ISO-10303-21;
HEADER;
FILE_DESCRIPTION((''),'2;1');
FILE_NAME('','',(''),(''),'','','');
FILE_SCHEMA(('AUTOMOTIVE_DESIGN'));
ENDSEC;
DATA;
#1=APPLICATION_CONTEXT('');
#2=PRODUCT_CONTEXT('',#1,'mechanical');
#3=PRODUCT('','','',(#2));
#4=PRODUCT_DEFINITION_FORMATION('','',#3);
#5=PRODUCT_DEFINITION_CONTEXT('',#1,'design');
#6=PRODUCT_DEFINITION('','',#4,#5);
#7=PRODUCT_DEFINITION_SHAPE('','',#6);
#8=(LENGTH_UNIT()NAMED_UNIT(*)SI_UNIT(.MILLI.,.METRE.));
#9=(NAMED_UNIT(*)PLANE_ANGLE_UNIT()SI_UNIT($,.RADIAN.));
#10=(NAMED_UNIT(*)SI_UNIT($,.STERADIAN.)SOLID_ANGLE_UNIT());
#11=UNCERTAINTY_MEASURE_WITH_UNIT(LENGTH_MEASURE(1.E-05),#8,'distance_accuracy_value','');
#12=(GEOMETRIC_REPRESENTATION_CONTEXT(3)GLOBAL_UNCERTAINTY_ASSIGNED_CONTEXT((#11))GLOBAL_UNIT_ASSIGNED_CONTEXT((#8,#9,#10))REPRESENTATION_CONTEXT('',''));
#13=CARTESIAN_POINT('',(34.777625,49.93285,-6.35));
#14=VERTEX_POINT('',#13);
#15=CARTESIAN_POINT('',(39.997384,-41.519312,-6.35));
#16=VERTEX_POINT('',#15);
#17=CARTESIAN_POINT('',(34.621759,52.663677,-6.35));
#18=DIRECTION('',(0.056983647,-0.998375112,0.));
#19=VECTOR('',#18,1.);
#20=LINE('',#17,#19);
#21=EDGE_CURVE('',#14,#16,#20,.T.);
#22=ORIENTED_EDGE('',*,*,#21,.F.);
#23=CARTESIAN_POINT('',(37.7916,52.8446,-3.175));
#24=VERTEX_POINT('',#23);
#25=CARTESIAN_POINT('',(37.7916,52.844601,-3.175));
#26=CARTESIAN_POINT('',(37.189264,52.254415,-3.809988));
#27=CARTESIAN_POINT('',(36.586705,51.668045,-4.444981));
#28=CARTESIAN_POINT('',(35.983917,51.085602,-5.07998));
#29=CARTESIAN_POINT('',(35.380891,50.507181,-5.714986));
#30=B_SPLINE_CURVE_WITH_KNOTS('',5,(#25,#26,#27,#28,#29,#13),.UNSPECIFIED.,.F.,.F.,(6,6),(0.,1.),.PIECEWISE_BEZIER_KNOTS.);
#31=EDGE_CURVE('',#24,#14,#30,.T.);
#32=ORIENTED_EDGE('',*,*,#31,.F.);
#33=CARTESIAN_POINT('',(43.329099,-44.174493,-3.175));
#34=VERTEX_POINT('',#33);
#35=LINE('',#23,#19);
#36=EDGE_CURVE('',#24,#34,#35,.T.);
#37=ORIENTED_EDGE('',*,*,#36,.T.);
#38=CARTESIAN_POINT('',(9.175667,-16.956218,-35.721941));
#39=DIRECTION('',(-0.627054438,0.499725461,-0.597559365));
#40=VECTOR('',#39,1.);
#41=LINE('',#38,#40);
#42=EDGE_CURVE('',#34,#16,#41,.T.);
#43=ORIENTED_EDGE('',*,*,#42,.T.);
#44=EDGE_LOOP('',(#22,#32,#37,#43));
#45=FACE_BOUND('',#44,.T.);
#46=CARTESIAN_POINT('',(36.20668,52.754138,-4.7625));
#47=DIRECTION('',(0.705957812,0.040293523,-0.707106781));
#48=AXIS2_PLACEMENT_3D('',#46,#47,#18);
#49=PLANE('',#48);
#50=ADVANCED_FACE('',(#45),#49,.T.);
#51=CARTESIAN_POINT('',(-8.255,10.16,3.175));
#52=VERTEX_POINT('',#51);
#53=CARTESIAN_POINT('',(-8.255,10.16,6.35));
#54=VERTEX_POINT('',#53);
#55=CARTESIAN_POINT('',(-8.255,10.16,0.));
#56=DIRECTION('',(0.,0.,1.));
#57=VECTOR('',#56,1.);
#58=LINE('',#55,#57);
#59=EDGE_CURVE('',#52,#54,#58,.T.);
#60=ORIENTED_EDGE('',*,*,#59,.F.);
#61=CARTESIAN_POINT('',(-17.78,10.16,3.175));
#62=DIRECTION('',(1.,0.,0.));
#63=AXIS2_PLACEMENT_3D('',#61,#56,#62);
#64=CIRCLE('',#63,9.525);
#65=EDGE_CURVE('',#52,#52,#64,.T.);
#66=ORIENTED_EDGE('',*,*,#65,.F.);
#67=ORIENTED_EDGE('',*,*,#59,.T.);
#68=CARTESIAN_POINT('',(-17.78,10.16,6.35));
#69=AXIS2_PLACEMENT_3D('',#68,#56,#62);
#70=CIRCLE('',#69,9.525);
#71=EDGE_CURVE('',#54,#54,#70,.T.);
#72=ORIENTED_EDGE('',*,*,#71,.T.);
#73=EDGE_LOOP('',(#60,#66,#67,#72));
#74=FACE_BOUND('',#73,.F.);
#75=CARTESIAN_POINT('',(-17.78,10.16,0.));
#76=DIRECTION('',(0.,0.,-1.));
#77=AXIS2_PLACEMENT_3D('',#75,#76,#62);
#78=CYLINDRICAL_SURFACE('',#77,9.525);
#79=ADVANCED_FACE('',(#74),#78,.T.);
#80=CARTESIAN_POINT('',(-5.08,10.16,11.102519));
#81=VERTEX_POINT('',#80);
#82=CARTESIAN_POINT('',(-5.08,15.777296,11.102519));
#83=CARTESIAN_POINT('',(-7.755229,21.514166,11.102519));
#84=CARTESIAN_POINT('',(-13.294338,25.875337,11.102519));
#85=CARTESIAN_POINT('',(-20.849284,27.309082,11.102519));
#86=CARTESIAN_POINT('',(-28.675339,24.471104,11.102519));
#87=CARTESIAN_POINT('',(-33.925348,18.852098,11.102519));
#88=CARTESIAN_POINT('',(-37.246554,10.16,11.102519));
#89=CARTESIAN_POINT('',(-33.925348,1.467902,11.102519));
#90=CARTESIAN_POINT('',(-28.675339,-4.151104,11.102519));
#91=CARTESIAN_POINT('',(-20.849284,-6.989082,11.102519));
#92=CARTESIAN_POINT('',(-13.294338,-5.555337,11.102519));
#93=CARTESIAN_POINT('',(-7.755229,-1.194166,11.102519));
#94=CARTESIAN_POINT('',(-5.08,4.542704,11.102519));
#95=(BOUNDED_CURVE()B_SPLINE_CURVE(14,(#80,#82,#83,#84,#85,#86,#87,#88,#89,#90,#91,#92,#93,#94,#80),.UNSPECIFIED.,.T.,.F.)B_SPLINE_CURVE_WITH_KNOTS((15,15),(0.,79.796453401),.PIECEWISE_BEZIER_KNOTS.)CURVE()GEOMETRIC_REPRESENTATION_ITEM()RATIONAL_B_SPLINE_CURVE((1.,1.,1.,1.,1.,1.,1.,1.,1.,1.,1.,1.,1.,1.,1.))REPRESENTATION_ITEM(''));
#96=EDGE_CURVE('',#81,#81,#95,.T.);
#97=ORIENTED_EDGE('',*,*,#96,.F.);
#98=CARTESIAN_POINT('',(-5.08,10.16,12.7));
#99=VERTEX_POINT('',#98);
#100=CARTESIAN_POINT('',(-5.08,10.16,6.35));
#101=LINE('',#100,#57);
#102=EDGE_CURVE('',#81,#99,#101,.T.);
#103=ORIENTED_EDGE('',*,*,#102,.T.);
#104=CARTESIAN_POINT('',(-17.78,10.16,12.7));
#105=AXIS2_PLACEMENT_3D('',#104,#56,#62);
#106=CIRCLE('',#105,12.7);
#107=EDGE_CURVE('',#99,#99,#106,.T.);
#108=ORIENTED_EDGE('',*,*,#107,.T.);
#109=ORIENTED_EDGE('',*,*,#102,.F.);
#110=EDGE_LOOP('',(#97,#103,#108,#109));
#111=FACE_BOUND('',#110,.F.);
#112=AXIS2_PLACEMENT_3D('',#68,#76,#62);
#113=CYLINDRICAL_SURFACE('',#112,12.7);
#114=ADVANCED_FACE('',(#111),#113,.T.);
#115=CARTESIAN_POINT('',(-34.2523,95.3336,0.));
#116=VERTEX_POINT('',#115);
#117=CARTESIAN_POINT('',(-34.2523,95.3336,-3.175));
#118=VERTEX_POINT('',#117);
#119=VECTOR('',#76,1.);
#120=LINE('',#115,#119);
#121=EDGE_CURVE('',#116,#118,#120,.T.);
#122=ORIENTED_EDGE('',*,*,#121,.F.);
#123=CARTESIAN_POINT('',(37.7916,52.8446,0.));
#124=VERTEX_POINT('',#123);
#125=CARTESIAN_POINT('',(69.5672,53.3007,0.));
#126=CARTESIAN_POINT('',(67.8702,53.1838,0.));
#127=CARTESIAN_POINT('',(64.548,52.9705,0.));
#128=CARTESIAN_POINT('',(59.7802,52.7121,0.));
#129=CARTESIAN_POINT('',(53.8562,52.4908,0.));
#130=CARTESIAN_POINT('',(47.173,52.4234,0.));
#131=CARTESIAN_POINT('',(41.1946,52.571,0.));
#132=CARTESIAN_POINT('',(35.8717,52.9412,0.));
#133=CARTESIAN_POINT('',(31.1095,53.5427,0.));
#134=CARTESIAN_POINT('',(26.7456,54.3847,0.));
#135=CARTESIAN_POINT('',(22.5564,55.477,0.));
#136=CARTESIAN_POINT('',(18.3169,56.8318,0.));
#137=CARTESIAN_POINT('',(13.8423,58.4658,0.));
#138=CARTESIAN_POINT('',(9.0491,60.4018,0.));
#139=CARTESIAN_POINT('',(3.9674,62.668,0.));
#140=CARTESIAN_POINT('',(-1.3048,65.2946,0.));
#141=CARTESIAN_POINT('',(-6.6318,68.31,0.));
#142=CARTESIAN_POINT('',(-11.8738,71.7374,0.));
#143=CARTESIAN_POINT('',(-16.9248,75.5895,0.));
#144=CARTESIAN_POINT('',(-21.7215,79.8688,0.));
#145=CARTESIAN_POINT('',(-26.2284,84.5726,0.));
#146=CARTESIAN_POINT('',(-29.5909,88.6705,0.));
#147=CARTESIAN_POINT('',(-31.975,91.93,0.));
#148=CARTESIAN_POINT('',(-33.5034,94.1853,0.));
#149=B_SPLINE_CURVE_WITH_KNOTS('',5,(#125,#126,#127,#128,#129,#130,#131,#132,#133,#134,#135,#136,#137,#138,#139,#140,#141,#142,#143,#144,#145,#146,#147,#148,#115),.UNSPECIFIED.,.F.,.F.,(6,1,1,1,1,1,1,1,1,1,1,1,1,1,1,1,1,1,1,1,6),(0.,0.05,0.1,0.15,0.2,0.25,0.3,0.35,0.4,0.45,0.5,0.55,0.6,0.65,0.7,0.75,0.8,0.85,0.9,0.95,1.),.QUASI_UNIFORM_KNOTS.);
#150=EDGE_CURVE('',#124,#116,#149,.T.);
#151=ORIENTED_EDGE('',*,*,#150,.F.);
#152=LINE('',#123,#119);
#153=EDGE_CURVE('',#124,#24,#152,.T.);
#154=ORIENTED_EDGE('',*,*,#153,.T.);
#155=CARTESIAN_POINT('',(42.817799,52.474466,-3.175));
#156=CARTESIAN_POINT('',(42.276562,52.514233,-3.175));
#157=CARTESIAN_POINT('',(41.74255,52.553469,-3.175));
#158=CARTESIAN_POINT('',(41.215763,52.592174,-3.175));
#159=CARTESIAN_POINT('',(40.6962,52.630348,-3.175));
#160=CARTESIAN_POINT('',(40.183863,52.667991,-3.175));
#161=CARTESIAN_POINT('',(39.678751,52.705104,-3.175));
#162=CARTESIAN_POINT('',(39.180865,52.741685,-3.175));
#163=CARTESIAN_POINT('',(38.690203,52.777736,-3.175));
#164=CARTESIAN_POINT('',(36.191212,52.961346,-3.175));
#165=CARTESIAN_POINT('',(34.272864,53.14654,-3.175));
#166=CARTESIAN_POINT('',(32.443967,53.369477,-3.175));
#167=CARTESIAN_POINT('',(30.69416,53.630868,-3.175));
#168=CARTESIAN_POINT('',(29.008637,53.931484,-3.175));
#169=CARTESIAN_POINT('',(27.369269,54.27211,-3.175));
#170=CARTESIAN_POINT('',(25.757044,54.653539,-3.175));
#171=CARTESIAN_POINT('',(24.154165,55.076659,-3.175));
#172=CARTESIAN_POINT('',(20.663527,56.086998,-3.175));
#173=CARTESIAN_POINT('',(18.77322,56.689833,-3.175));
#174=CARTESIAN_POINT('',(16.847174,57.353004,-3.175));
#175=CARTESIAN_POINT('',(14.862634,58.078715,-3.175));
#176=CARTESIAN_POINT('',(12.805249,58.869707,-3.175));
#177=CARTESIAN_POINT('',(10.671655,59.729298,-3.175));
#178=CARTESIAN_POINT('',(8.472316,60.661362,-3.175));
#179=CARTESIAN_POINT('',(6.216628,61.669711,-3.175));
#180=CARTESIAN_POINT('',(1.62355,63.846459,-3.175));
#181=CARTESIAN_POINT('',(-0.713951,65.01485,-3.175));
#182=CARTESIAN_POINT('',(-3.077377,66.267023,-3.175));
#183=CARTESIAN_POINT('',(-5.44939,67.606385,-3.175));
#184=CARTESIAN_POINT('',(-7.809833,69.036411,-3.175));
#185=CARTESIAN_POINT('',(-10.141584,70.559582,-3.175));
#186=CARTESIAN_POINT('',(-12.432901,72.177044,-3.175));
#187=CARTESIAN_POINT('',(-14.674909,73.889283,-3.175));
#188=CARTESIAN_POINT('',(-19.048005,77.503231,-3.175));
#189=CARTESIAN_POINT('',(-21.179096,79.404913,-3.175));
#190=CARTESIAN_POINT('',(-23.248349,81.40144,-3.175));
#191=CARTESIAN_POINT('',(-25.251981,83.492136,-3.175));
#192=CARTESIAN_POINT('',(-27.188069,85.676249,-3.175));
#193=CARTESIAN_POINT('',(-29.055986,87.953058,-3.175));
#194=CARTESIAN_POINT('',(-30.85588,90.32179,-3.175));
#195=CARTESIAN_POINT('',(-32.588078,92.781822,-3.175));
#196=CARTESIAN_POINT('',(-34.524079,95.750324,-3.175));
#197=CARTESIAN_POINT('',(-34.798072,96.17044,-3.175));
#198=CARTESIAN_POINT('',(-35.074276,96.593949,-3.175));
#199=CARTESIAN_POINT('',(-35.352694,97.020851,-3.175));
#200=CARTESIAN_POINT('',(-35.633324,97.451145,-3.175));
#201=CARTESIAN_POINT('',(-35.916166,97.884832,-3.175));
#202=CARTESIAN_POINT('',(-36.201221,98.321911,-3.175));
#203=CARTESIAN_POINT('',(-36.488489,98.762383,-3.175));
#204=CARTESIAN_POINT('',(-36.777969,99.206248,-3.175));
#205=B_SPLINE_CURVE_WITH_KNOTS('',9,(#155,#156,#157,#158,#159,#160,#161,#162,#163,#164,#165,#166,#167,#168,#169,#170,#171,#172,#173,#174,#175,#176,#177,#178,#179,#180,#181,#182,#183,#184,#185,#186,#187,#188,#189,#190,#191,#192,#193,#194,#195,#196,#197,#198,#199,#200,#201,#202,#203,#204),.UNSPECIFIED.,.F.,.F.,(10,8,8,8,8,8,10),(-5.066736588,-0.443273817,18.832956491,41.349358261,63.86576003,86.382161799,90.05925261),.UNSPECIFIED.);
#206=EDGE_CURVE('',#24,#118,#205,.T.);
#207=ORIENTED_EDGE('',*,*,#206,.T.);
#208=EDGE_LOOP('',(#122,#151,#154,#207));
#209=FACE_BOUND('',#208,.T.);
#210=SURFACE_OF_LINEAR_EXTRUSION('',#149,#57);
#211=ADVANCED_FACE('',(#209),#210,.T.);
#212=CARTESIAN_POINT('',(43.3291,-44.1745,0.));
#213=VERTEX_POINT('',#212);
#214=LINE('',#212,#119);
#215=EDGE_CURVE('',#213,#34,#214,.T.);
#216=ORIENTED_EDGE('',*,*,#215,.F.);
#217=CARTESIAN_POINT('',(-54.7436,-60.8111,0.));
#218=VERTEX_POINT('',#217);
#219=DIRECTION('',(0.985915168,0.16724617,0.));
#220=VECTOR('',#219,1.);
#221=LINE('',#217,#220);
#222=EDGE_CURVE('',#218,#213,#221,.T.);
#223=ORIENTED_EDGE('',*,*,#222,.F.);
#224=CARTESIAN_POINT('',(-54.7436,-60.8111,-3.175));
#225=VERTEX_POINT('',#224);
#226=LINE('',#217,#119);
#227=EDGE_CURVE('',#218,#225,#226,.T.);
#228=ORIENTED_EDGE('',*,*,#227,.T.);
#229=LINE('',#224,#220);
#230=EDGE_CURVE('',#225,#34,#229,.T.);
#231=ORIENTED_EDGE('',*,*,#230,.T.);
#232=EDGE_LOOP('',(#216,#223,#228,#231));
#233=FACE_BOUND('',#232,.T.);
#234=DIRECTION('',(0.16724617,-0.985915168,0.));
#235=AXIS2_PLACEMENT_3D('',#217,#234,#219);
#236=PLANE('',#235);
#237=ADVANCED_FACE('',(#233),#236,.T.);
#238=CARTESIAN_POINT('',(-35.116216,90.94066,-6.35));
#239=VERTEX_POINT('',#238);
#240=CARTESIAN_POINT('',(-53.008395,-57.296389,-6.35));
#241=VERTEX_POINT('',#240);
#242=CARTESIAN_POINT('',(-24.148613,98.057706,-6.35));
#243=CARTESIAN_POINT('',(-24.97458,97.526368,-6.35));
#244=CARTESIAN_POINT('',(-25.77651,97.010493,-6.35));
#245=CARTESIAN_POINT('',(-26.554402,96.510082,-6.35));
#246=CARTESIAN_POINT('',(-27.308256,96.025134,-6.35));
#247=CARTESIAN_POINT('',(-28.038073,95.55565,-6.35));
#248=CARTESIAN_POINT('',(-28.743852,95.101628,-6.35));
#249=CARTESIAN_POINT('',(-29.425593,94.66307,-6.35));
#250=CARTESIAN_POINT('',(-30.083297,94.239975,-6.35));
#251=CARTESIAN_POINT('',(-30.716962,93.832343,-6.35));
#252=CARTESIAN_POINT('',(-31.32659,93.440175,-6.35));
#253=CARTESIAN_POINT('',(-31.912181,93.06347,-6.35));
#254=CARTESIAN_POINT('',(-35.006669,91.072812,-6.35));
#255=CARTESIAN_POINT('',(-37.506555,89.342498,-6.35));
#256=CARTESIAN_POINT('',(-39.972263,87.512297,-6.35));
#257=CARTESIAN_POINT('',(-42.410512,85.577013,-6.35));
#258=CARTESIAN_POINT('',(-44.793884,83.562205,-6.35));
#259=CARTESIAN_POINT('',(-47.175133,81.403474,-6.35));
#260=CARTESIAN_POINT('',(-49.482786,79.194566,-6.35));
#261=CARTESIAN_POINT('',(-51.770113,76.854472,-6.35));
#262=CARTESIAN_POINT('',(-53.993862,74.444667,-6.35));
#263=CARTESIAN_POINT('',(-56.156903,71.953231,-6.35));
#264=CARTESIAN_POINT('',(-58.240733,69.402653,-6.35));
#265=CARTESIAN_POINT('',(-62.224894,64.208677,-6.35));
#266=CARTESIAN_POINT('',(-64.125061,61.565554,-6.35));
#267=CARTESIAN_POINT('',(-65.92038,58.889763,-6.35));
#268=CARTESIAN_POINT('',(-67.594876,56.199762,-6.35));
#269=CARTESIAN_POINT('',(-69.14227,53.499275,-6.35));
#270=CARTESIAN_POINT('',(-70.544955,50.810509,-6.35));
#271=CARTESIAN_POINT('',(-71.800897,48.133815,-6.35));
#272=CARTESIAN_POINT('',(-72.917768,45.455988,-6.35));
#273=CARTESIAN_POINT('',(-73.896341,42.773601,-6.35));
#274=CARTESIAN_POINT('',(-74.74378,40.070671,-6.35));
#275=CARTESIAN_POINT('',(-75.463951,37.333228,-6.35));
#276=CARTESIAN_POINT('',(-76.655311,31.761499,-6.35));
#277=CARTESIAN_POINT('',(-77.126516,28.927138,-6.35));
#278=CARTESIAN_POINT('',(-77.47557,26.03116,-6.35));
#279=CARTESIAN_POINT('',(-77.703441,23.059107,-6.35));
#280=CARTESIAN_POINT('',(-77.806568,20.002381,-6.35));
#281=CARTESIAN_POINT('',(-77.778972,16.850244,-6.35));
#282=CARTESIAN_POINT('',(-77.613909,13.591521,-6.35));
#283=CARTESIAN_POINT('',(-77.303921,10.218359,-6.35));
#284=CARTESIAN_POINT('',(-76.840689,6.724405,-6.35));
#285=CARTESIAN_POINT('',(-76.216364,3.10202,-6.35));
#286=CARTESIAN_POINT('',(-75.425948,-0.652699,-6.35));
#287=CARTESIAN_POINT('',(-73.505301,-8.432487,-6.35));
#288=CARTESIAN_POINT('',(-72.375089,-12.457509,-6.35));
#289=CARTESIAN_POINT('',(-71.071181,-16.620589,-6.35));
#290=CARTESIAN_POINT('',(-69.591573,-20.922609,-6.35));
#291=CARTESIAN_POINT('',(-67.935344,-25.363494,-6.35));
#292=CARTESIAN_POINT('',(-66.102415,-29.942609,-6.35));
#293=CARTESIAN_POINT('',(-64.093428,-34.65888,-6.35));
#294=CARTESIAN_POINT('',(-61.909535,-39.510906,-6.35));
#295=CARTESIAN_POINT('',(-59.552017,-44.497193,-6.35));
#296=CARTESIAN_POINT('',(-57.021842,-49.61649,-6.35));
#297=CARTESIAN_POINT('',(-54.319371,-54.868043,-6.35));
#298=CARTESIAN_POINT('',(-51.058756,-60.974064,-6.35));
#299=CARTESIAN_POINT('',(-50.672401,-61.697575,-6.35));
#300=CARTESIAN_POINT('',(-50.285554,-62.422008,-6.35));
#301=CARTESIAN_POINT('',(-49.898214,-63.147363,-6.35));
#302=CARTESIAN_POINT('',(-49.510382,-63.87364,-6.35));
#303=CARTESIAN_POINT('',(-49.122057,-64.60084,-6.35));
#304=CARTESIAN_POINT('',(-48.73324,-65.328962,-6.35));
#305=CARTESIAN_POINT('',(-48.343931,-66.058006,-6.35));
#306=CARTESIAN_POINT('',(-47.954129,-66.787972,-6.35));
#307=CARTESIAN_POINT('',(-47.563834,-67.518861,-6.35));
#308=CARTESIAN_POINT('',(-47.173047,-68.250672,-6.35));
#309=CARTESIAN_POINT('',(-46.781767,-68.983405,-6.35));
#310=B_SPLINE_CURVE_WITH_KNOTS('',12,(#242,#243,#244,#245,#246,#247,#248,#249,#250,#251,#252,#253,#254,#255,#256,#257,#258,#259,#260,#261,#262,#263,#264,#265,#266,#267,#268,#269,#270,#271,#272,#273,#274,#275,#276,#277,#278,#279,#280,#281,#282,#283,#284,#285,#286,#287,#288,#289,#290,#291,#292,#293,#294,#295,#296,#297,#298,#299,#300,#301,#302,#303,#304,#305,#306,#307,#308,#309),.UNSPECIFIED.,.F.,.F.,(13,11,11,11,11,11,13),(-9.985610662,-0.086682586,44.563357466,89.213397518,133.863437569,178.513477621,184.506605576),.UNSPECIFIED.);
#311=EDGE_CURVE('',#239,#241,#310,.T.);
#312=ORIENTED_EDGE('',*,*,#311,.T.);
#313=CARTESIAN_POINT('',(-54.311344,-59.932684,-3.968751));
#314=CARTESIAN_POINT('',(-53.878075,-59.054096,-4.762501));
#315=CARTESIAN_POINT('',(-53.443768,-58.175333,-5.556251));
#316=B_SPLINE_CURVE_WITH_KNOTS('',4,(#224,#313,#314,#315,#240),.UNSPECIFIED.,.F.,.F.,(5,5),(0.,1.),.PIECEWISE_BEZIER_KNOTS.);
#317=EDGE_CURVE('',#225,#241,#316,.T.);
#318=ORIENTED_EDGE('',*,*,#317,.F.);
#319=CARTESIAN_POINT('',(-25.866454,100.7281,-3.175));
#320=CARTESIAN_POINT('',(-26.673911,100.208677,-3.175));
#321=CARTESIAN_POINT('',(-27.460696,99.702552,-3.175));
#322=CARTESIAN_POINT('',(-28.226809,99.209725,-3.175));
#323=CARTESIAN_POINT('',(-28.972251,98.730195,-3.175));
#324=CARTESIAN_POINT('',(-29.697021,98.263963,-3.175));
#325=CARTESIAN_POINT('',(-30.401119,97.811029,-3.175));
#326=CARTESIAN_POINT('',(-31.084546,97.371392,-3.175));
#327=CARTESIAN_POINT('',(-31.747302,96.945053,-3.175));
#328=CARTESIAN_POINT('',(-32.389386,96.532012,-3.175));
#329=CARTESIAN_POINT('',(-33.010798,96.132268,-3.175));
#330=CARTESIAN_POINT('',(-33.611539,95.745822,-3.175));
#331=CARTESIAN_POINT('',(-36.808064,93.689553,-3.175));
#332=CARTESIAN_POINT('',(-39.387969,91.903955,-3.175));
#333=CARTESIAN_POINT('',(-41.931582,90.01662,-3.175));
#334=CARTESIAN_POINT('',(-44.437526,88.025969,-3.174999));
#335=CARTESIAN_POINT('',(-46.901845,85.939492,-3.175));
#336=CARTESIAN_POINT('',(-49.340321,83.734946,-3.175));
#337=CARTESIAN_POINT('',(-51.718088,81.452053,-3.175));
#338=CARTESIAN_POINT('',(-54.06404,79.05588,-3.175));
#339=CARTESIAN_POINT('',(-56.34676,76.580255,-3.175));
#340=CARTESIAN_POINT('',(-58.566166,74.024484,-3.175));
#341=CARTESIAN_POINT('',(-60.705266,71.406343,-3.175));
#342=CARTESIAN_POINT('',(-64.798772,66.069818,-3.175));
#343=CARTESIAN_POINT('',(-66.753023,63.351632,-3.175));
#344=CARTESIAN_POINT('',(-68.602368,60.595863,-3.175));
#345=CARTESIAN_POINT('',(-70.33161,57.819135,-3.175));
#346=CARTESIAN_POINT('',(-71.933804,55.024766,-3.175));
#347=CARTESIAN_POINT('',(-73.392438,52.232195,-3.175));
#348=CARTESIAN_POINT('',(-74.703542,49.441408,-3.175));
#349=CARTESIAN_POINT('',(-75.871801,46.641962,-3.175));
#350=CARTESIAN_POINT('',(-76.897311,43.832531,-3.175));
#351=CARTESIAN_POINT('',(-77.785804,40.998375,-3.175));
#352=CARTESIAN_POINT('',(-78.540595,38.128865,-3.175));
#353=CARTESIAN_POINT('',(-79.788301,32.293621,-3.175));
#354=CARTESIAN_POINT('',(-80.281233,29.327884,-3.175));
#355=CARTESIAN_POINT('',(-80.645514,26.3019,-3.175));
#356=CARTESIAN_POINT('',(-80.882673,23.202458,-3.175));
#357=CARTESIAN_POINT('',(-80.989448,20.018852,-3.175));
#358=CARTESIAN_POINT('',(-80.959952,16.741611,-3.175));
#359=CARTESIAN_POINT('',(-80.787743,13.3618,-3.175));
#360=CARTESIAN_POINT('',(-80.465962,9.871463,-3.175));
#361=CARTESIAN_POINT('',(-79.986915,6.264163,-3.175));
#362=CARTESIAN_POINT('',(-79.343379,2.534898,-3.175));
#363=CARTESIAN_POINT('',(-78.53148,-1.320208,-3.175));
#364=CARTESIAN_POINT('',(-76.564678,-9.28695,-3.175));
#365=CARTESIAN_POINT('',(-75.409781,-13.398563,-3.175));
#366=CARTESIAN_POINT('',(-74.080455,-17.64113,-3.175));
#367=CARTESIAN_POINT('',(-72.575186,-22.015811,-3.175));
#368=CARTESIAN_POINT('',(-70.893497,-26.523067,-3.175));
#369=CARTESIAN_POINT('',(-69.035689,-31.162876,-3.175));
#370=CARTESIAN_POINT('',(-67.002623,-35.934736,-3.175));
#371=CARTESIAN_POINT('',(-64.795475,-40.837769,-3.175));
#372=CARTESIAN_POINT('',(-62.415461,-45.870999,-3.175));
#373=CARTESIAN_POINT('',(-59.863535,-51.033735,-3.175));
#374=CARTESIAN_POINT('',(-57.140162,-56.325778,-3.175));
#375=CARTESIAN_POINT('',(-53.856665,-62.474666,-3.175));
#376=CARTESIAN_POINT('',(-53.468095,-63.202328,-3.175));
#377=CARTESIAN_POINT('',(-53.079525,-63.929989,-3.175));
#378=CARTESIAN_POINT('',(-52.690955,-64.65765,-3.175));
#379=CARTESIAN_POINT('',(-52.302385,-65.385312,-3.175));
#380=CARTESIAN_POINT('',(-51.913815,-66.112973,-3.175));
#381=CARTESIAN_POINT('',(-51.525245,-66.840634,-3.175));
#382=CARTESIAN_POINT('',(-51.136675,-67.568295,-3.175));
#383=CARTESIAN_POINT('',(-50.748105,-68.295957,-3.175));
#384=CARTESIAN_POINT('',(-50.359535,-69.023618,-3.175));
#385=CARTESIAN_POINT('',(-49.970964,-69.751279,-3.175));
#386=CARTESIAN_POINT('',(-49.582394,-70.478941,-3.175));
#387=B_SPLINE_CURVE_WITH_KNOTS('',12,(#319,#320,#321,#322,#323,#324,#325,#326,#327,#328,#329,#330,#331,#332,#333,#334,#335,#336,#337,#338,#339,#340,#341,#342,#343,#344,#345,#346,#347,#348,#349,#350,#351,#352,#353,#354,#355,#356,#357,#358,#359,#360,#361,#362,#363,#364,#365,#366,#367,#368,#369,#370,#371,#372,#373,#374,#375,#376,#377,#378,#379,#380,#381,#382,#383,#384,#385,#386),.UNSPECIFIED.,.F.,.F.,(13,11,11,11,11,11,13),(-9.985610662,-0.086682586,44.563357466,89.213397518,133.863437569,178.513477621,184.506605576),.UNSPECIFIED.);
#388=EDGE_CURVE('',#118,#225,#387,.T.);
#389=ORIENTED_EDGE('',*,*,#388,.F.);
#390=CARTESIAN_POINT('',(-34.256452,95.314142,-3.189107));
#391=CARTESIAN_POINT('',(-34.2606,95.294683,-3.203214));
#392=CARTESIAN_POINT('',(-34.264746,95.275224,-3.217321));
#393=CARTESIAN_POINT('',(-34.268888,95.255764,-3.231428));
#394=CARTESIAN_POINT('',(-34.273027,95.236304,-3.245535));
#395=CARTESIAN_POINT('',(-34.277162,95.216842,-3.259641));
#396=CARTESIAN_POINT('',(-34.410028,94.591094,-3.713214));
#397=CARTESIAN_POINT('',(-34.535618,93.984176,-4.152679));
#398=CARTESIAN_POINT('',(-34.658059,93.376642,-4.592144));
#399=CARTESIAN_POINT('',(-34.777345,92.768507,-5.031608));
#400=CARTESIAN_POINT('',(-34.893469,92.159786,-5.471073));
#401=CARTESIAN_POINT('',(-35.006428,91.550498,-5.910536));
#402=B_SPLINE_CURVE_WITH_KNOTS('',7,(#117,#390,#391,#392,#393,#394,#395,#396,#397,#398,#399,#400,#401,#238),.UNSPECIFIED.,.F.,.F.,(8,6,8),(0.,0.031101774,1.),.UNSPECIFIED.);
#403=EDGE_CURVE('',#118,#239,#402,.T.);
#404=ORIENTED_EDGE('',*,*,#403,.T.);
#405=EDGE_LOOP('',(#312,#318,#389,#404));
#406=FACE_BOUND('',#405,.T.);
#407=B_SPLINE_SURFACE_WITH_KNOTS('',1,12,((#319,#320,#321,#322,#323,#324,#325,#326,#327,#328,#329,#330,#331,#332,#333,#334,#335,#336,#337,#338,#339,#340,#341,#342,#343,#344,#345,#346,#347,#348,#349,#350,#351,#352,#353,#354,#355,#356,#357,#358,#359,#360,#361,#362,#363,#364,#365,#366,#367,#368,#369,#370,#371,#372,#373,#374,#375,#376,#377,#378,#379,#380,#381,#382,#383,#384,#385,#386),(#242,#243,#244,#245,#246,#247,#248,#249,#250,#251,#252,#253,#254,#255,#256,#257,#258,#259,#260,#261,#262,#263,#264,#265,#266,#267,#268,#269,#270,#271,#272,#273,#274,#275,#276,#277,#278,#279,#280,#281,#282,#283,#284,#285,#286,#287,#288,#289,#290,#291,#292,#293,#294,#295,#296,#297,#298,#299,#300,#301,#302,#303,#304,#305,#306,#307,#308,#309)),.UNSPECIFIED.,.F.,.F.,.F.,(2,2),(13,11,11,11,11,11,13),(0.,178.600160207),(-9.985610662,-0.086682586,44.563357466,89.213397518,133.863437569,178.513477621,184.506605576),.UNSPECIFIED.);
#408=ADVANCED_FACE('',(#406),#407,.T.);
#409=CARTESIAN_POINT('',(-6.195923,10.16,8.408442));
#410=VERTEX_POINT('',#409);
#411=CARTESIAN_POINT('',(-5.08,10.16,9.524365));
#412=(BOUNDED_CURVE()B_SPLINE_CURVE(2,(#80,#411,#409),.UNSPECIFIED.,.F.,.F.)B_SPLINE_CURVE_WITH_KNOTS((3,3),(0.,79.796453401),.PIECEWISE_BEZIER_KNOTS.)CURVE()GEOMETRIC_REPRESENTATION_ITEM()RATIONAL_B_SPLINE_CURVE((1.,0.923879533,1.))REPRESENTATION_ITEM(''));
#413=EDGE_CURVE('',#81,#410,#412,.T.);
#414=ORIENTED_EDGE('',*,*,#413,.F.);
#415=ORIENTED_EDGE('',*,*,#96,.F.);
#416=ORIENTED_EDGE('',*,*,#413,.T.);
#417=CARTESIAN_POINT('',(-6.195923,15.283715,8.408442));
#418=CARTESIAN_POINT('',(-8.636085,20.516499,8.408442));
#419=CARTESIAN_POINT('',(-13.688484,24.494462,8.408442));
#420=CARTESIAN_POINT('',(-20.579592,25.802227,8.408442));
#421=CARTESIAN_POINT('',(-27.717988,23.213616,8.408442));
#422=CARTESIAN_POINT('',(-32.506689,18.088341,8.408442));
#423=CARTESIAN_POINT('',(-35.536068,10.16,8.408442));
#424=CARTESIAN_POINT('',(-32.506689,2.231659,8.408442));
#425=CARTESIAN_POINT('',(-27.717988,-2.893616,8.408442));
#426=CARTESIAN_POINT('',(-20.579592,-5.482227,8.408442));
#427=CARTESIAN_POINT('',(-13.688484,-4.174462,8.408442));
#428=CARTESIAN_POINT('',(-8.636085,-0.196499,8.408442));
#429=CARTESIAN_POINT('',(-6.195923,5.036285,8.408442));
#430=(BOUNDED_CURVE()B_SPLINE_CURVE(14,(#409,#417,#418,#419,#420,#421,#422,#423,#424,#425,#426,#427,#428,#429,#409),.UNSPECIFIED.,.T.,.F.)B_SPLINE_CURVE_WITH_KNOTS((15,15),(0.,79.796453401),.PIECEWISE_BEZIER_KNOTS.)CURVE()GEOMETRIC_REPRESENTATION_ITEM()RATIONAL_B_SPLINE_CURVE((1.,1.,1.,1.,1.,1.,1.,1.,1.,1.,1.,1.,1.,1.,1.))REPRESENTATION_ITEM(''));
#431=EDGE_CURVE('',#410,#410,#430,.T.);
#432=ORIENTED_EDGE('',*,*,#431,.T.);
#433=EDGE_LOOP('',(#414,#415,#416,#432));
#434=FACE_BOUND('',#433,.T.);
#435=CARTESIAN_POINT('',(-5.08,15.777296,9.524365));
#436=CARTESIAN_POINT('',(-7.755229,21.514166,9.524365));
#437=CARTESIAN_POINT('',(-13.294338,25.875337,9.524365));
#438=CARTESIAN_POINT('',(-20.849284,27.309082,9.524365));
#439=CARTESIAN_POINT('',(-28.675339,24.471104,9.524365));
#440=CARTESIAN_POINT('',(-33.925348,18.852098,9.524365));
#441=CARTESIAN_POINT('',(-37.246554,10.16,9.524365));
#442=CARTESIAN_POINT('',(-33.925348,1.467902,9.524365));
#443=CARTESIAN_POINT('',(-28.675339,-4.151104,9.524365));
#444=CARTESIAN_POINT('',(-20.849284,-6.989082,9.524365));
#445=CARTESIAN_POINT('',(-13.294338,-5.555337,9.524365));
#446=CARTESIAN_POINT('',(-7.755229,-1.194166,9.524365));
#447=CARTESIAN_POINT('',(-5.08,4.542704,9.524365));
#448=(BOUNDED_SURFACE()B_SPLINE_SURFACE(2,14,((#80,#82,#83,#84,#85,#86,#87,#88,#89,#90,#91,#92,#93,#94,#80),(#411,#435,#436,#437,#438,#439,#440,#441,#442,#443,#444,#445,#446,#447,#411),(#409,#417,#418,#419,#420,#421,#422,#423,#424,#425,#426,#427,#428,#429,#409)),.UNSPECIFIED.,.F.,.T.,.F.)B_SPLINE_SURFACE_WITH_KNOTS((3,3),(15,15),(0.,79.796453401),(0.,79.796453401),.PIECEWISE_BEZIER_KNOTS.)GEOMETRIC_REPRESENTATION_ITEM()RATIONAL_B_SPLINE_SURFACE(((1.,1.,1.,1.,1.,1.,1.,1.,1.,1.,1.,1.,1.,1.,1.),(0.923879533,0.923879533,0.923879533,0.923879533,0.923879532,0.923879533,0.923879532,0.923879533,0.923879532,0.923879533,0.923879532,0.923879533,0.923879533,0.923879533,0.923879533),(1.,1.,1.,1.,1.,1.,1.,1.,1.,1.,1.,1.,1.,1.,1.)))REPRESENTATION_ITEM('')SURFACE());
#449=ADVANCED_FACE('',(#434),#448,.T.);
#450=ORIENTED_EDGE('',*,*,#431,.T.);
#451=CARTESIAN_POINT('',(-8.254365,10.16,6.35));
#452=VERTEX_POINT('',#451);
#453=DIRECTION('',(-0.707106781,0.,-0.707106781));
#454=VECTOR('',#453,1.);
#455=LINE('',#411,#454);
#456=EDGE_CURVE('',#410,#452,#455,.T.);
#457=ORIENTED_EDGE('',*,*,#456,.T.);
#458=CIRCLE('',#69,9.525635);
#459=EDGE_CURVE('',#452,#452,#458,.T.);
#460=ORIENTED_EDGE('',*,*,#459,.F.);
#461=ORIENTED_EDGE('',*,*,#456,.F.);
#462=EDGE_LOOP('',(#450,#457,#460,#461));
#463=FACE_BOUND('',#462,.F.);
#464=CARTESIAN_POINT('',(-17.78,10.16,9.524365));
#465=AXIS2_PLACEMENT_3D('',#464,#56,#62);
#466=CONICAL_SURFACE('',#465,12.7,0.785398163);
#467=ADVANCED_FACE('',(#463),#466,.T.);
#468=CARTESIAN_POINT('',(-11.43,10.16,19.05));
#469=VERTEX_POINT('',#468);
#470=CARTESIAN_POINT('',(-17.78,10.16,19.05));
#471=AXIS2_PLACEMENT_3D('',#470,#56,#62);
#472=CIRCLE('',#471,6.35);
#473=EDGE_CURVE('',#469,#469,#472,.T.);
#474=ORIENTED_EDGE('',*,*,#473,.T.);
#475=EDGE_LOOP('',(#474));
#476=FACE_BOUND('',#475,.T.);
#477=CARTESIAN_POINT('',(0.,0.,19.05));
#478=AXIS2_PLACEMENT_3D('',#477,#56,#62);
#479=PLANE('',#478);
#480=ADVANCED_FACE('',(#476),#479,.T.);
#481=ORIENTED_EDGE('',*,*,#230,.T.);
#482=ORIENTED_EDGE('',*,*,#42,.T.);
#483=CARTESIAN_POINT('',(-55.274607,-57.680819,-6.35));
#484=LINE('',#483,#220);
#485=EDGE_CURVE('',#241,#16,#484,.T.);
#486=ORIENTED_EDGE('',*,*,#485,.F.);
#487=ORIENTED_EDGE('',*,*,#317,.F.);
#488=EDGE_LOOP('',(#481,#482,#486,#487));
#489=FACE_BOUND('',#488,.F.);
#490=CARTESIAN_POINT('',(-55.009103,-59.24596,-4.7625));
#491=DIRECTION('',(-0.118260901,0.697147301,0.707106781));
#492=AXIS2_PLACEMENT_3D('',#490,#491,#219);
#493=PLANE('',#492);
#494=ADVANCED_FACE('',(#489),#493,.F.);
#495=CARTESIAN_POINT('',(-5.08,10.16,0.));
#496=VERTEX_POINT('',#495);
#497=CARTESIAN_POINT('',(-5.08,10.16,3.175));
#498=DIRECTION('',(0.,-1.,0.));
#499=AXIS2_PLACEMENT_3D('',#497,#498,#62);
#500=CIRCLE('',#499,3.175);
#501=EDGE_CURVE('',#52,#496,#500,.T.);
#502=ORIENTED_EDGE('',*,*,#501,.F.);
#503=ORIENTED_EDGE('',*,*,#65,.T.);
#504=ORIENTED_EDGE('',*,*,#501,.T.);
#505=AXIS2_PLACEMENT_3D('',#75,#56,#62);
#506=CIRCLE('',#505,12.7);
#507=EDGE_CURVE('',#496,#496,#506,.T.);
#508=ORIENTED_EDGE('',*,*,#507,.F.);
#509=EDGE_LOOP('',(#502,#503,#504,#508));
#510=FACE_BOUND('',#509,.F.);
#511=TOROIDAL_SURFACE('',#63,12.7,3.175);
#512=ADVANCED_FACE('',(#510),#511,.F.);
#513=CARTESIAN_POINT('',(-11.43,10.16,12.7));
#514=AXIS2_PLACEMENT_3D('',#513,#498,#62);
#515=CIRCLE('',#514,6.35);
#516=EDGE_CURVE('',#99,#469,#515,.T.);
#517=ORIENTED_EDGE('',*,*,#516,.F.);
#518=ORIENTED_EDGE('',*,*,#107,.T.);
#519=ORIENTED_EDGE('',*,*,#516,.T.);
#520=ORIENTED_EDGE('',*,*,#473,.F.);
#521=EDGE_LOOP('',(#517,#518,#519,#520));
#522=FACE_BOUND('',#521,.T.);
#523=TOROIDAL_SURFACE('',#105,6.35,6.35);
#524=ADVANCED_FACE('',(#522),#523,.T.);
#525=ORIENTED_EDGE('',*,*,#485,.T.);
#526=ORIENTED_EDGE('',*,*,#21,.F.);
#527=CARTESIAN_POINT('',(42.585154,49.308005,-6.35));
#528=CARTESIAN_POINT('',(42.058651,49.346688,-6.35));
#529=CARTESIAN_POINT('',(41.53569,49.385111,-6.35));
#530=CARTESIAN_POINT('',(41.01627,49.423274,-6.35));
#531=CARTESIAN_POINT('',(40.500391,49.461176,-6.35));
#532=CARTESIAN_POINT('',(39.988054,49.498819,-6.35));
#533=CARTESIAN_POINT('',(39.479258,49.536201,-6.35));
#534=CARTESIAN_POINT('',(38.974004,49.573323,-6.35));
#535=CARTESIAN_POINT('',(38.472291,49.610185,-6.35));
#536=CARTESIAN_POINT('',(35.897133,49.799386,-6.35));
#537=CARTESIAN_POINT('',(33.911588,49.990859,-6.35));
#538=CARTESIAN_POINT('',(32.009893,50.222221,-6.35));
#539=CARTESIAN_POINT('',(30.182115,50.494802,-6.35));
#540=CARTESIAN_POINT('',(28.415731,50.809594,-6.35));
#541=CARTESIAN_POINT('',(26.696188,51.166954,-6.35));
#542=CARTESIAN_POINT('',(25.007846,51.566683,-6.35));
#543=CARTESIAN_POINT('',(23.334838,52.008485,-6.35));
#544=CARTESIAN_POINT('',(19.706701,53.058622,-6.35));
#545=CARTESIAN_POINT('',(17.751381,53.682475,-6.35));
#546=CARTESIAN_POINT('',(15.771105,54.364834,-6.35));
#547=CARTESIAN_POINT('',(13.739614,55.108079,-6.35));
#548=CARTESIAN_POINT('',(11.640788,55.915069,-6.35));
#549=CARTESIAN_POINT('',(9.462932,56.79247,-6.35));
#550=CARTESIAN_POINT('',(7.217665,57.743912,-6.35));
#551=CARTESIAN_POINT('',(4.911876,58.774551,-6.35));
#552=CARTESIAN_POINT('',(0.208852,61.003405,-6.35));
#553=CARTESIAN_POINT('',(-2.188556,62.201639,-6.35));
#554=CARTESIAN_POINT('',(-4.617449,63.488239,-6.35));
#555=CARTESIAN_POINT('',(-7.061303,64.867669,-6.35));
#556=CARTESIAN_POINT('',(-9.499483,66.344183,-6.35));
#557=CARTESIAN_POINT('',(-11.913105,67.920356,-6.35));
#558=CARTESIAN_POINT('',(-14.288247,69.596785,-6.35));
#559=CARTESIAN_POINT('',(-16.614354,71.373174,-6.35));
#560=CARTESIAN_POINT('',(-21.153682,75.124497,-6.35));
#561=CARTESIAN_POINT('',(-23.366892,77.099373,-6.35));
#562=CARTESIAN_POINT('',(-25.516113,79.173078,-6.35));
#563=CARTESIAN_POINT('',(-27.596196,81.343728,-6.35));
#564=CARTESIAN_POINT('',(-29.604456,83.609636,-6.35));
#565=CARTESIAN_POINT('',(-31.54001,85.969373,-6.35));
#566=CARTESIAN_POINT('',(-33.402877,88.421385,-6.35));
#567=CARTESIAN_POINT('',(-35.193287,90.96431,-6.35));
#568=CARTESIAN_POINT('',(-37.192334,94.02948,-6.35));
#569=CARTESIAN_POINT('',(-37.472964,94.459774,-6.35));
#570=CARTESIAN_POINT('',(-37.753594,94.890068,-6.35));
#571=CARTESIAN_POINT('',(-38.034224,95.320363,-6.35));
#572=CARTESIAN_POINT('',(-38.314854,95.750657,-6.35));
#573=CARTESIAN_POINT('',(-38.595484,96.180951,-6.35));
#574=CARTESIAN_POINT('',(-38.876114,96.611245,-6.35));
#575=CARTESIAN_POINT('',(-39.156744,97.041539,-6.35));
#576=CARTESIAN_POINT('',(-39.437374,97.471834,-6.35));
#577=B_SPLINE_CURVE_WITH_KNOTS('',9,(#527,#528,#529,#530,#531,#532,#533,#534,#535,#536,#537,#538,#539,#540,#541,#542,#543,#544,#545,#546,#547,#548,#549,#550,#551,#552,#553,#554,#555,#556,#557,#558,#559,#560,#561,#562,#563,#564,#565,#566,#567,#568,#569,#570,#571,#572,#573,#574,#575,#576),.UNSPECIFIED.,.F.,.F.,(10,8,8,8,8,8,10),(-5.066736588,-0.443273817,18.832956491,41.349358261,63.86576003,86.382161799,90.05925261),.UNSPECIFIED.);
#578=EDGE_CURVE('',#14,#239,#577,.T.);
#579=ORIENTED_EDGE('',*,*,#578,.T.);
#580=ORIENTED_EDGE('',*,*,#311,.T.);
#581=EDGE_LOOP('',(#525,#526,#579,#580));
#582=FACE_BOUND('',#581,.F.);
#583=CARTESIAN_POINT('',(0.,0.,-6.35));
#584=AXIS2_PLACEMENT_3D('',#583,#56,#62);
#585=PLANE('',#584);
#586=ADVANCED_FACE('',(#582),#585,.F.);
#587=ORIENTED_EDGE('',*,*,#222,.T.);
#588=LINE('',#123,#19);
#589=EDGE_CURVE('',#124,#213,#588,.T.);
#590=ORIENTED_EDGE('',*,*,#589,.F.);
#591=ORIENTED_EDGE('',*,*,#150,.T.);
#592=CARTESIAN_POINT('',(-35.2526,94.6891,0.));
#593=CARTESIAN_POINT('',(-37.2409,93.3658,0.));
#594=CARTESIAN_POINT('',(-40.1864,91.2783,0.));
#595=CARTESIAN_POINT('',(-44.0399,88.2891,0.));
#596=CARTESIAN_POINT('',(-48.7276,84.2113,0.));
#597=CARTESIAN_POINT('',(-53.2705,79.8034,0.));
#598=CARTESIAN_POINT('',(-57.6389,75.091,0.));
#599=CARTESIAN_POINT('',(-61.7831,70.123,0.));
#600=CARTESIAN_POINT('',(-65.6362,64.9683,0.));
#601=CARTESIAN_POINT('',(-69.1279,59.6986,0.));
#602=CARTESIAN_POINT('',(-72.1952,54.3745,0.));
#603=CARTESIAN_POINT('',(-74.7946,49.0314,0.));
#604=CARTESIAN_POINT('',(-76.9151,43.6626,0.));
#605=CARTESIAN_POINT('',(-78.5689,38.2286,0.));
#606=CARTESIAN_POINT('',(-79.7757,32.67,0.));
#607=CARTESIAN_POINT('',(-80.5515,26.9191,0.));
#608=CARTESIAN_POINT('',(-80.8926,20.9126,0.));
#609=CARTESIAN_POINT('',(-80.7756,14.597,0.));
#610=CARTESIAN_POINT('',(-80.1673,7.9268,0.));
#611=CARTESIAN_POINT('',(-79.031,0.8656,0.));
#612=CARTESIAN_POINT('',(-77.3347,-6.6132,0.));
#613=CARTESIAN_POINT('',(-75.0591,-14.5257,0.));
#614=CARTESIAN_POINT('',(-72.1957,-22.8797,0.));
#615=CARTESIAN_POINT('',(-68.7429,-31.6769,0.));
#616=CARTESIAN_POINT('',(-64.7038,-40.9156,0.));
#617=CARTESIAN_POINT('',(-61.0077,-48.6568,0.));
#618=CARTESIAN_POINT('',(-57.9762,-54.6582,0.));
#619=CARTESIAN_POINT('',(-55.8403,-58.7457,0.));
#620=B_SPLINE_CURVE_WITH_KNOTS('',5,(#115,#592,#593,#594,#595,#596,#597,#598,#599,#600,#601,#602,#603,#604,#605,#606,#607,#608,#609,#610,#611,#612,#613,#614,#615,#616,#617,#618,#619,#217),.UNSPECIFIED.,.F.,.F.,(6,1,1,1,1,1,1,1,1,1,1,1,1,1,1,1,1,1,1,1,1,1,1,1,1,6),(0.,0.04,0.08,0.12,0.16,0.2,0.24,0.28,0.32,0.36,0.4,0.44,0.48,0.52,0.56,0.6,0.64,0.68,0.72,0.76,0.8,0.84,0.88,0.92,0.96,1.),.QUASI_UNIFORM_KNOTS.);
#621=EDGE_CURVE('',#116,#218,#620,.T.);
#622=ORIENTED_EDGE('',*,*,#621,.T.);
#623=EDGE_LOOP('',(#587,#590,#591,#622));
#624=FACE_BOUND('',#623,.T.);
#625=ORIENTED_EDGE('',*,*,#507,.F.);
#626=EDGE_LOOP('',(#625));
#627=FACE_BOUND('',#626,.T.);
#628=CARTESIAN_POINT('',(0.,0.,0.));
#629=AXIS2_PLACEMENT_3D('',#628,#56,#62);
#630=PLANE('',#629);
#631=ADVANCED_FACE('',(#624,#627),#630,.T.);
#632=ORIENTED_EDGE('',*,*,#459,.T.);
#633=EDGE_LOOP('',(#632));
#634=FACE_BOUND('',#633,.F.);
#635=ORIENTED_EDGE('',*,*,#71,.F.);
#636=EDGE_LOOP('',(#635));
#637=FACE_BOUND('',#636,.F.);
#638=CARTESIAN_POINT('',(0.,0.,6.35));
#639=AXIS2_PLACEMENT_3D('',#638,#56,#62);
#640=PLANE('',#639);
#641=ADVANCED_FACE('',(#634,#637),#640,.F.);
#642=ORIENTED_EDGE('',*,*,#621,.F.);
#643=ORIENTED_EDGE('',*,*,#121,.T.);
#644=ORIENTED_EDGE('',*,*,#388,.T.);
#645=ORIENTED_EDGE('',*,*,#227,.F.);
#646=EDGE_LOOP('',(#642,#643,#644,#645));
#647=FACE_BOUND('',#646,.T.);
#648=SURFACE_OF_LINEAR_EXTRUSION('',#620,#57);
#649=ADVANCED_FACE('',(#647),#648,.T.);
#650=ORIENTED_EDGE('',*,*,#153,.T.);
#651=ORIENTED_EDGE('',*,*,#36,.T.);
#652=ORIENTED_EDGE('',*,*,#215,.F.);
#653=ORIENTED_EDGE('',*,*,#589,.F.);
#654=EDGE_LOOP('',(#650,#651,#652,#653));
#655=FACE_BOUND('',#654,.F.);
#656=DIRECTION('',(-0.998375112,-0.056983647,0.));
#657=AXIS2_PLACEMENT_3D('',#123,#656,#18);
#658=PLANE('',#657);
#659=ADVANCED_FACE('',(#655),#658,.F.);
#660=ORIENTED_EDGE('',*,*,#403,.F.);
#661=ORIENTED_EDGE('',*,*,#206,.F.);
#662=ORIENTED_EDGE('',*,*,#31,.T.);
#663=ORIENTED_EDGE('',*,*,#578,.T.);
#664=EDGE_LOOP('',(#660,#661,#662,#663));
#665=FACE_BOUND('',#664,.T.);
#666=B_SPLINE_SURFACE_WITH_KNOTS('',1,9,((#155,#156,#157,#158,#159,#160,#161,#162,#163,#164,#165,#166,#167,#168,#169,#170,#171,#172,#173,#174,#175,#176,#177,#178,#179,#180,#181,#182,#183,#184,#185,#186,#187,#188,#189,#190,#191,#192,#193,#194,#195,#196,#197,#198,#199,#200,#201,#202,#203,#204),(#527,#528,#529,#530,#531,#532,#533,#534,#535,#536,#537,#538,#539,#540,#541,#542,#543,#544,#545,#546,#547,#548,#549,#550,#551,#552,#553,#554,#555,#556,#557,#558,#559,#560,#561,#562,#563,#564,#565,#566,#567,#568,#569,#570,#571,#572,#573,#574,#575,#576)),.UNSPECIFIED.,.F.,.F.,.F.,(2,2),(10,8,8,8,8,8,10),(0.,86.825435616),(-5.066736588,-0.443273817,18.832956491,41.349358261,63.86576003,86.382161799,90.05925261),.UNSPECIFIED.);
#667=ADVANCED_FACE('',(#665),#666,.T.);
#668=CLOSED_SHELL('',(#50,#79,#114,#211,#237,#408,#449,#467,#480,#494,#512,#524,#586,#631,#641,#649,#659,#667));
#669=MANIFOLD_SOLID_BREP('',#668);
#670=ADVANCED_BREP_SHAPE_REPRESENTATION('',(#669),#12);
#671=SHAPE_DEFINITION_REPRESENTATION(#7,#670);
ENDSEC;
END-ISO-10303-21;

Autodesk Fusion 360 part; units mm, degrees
sketch "MaskV2" plane through (0, 0, 0) normal (0, 0, 1) x (1, 0, 0)
  spline S0 degree 5 poles (-34.2523, 95.3336) (-35.2526, 94.6891) (-37.2409, 93.3658) (-40.1864, 91.2783) (-44.0399, 88.2891) (-48.7276, 84.2113) (-53.2705, 79.8034) (-57.6389, 75.091) (-61.7831, 70.123) (-65.6362, 64.9683) (-69.1279, 59.6986) (-72.1952, 54.3745) (-74.7946, 49.0314) (-76.9151, 43.6626) (-78.5689, 38.2286) (-79.7757, 32.67) (-80.5515, 26.9191) (-80.8926, 20.9126) (-80.7756, 14.597) (-80.1673, 7.9268) (-79.031, 0.8656) (-77.3347, -6.6132) (-75.0591, -14.5257) (-72.1957, -22.8797) (-68.7429, -31.6769) (-64.7038, -40.9156) (-61.0077, -48.6568) (-57.9762, -54.6582) (-55.8403, -58.7457) (-54.7436, -60.8111) knots 0 0 0 0 0 0 0.04 0.08 0.12 0.16 0.2 0.24 0.28 0.32 0.36 0.4 0.44 0.48 0.52 0.56 0.6 0.64 0.68 0.72 0.76 0.8 0.84 0.88 0.92 0.96 1 1 1 1 1 1
  spline S1 degree 5 poles (69.5672, 53.3007) (67.8702, 53.1838) (64.548, 52.9705) (59.7802, 52.7121) (53.8562, 52.4908) (47.173, 52.4234) (41.1946, 52.571) (35.8717, 52.9412) (31.1095, 53.5427) (26.7456, 54.3847) (22.5564, 55.477) (18.3169, 56.8318) (13.8423, 58.4658) (9.0491, 60.4018) (3.9674, 62.668) (-1.3048, 65.2946) (-6.6318, 68.31) (-11.8738, 71.7374) (-16.9248, 75.5895) (-21.7215, 79.8688) (-26.2284, 84.5726) (-29.5909, 88.6705) (-31.975, 91.93) (-33.5034, 94.1853) (-34.2523, 95.3336) knots 0 0 0 0 0 0 0.05 0.1 0.15 0.2 0.25 0.3 0.35 0.4 0.45 0.5 0.55 0.6 0.65 0.7 0.75 0.8 0.85 0.9 0.95 1 1 1 1 1 1
  line L0 (37.7916, 52.8446) -> (43.3291, -44.1745)
  line L1 (-54.7436, -60.8111) -> (75.4385, -38.7276)
  line L2 (69.5672, 53.3007) -> (75.4385, -38.7276)
  circle A0 centre (-17.78, 10.16) radius 9.525
  circle A1 centre (-17.78, 10.16) radius 12.7
  line L3 (-40.1142, -47.6041) -> (19.676, -37.0614) construction
  line L4 (19.676, -37.0614) -> (16.368, -18.3009) construction
  line L5 (16.368, -18.3009) -> (-43.4222, -28.8435) construction
  line L6 (-43.4222, -28.8435) -> (-40.1142, -47.6041) construction
  dimension "d1" = 19.05
  dimension "d2" = 25.4
extrude "Extrude1" add sketch "MaskV2" against normal blind 6.35 contours S0 S1 L0 L1 | A0 | A1
extrude "Extrude2" add sketch "MaskV2" along normal blind 19.05 contours A0
extrude "Extrude3" add sketch "MaskV2" along normal blind 12.7 from surface at 6.35 contours A1
fillet "Fillet1" radius 6.35 1 edges at (-29.6206, 5.5675, 19.05)
chamfer "Chamfer1" distance 3.175 angle 45 1 edges at (-29.6206, 5.5675, 6.35)
fillet "Fillet2" radius 3.81 1 edges at (-29.6206, 14.7525, 9.525)
fillet "Fillet3" radius 3.175 1 edges at (-26.6604, 13.6044, 0)
chamfer "Chamfer3" distance 3.175 angle 45 4 edges at (-5.7072, -52.4928, -6.35) (40.5603, 4.3351, -6.35) (2.2203, 63.5787, -6.35) (-79.1174, 35.4295, -6.35)
